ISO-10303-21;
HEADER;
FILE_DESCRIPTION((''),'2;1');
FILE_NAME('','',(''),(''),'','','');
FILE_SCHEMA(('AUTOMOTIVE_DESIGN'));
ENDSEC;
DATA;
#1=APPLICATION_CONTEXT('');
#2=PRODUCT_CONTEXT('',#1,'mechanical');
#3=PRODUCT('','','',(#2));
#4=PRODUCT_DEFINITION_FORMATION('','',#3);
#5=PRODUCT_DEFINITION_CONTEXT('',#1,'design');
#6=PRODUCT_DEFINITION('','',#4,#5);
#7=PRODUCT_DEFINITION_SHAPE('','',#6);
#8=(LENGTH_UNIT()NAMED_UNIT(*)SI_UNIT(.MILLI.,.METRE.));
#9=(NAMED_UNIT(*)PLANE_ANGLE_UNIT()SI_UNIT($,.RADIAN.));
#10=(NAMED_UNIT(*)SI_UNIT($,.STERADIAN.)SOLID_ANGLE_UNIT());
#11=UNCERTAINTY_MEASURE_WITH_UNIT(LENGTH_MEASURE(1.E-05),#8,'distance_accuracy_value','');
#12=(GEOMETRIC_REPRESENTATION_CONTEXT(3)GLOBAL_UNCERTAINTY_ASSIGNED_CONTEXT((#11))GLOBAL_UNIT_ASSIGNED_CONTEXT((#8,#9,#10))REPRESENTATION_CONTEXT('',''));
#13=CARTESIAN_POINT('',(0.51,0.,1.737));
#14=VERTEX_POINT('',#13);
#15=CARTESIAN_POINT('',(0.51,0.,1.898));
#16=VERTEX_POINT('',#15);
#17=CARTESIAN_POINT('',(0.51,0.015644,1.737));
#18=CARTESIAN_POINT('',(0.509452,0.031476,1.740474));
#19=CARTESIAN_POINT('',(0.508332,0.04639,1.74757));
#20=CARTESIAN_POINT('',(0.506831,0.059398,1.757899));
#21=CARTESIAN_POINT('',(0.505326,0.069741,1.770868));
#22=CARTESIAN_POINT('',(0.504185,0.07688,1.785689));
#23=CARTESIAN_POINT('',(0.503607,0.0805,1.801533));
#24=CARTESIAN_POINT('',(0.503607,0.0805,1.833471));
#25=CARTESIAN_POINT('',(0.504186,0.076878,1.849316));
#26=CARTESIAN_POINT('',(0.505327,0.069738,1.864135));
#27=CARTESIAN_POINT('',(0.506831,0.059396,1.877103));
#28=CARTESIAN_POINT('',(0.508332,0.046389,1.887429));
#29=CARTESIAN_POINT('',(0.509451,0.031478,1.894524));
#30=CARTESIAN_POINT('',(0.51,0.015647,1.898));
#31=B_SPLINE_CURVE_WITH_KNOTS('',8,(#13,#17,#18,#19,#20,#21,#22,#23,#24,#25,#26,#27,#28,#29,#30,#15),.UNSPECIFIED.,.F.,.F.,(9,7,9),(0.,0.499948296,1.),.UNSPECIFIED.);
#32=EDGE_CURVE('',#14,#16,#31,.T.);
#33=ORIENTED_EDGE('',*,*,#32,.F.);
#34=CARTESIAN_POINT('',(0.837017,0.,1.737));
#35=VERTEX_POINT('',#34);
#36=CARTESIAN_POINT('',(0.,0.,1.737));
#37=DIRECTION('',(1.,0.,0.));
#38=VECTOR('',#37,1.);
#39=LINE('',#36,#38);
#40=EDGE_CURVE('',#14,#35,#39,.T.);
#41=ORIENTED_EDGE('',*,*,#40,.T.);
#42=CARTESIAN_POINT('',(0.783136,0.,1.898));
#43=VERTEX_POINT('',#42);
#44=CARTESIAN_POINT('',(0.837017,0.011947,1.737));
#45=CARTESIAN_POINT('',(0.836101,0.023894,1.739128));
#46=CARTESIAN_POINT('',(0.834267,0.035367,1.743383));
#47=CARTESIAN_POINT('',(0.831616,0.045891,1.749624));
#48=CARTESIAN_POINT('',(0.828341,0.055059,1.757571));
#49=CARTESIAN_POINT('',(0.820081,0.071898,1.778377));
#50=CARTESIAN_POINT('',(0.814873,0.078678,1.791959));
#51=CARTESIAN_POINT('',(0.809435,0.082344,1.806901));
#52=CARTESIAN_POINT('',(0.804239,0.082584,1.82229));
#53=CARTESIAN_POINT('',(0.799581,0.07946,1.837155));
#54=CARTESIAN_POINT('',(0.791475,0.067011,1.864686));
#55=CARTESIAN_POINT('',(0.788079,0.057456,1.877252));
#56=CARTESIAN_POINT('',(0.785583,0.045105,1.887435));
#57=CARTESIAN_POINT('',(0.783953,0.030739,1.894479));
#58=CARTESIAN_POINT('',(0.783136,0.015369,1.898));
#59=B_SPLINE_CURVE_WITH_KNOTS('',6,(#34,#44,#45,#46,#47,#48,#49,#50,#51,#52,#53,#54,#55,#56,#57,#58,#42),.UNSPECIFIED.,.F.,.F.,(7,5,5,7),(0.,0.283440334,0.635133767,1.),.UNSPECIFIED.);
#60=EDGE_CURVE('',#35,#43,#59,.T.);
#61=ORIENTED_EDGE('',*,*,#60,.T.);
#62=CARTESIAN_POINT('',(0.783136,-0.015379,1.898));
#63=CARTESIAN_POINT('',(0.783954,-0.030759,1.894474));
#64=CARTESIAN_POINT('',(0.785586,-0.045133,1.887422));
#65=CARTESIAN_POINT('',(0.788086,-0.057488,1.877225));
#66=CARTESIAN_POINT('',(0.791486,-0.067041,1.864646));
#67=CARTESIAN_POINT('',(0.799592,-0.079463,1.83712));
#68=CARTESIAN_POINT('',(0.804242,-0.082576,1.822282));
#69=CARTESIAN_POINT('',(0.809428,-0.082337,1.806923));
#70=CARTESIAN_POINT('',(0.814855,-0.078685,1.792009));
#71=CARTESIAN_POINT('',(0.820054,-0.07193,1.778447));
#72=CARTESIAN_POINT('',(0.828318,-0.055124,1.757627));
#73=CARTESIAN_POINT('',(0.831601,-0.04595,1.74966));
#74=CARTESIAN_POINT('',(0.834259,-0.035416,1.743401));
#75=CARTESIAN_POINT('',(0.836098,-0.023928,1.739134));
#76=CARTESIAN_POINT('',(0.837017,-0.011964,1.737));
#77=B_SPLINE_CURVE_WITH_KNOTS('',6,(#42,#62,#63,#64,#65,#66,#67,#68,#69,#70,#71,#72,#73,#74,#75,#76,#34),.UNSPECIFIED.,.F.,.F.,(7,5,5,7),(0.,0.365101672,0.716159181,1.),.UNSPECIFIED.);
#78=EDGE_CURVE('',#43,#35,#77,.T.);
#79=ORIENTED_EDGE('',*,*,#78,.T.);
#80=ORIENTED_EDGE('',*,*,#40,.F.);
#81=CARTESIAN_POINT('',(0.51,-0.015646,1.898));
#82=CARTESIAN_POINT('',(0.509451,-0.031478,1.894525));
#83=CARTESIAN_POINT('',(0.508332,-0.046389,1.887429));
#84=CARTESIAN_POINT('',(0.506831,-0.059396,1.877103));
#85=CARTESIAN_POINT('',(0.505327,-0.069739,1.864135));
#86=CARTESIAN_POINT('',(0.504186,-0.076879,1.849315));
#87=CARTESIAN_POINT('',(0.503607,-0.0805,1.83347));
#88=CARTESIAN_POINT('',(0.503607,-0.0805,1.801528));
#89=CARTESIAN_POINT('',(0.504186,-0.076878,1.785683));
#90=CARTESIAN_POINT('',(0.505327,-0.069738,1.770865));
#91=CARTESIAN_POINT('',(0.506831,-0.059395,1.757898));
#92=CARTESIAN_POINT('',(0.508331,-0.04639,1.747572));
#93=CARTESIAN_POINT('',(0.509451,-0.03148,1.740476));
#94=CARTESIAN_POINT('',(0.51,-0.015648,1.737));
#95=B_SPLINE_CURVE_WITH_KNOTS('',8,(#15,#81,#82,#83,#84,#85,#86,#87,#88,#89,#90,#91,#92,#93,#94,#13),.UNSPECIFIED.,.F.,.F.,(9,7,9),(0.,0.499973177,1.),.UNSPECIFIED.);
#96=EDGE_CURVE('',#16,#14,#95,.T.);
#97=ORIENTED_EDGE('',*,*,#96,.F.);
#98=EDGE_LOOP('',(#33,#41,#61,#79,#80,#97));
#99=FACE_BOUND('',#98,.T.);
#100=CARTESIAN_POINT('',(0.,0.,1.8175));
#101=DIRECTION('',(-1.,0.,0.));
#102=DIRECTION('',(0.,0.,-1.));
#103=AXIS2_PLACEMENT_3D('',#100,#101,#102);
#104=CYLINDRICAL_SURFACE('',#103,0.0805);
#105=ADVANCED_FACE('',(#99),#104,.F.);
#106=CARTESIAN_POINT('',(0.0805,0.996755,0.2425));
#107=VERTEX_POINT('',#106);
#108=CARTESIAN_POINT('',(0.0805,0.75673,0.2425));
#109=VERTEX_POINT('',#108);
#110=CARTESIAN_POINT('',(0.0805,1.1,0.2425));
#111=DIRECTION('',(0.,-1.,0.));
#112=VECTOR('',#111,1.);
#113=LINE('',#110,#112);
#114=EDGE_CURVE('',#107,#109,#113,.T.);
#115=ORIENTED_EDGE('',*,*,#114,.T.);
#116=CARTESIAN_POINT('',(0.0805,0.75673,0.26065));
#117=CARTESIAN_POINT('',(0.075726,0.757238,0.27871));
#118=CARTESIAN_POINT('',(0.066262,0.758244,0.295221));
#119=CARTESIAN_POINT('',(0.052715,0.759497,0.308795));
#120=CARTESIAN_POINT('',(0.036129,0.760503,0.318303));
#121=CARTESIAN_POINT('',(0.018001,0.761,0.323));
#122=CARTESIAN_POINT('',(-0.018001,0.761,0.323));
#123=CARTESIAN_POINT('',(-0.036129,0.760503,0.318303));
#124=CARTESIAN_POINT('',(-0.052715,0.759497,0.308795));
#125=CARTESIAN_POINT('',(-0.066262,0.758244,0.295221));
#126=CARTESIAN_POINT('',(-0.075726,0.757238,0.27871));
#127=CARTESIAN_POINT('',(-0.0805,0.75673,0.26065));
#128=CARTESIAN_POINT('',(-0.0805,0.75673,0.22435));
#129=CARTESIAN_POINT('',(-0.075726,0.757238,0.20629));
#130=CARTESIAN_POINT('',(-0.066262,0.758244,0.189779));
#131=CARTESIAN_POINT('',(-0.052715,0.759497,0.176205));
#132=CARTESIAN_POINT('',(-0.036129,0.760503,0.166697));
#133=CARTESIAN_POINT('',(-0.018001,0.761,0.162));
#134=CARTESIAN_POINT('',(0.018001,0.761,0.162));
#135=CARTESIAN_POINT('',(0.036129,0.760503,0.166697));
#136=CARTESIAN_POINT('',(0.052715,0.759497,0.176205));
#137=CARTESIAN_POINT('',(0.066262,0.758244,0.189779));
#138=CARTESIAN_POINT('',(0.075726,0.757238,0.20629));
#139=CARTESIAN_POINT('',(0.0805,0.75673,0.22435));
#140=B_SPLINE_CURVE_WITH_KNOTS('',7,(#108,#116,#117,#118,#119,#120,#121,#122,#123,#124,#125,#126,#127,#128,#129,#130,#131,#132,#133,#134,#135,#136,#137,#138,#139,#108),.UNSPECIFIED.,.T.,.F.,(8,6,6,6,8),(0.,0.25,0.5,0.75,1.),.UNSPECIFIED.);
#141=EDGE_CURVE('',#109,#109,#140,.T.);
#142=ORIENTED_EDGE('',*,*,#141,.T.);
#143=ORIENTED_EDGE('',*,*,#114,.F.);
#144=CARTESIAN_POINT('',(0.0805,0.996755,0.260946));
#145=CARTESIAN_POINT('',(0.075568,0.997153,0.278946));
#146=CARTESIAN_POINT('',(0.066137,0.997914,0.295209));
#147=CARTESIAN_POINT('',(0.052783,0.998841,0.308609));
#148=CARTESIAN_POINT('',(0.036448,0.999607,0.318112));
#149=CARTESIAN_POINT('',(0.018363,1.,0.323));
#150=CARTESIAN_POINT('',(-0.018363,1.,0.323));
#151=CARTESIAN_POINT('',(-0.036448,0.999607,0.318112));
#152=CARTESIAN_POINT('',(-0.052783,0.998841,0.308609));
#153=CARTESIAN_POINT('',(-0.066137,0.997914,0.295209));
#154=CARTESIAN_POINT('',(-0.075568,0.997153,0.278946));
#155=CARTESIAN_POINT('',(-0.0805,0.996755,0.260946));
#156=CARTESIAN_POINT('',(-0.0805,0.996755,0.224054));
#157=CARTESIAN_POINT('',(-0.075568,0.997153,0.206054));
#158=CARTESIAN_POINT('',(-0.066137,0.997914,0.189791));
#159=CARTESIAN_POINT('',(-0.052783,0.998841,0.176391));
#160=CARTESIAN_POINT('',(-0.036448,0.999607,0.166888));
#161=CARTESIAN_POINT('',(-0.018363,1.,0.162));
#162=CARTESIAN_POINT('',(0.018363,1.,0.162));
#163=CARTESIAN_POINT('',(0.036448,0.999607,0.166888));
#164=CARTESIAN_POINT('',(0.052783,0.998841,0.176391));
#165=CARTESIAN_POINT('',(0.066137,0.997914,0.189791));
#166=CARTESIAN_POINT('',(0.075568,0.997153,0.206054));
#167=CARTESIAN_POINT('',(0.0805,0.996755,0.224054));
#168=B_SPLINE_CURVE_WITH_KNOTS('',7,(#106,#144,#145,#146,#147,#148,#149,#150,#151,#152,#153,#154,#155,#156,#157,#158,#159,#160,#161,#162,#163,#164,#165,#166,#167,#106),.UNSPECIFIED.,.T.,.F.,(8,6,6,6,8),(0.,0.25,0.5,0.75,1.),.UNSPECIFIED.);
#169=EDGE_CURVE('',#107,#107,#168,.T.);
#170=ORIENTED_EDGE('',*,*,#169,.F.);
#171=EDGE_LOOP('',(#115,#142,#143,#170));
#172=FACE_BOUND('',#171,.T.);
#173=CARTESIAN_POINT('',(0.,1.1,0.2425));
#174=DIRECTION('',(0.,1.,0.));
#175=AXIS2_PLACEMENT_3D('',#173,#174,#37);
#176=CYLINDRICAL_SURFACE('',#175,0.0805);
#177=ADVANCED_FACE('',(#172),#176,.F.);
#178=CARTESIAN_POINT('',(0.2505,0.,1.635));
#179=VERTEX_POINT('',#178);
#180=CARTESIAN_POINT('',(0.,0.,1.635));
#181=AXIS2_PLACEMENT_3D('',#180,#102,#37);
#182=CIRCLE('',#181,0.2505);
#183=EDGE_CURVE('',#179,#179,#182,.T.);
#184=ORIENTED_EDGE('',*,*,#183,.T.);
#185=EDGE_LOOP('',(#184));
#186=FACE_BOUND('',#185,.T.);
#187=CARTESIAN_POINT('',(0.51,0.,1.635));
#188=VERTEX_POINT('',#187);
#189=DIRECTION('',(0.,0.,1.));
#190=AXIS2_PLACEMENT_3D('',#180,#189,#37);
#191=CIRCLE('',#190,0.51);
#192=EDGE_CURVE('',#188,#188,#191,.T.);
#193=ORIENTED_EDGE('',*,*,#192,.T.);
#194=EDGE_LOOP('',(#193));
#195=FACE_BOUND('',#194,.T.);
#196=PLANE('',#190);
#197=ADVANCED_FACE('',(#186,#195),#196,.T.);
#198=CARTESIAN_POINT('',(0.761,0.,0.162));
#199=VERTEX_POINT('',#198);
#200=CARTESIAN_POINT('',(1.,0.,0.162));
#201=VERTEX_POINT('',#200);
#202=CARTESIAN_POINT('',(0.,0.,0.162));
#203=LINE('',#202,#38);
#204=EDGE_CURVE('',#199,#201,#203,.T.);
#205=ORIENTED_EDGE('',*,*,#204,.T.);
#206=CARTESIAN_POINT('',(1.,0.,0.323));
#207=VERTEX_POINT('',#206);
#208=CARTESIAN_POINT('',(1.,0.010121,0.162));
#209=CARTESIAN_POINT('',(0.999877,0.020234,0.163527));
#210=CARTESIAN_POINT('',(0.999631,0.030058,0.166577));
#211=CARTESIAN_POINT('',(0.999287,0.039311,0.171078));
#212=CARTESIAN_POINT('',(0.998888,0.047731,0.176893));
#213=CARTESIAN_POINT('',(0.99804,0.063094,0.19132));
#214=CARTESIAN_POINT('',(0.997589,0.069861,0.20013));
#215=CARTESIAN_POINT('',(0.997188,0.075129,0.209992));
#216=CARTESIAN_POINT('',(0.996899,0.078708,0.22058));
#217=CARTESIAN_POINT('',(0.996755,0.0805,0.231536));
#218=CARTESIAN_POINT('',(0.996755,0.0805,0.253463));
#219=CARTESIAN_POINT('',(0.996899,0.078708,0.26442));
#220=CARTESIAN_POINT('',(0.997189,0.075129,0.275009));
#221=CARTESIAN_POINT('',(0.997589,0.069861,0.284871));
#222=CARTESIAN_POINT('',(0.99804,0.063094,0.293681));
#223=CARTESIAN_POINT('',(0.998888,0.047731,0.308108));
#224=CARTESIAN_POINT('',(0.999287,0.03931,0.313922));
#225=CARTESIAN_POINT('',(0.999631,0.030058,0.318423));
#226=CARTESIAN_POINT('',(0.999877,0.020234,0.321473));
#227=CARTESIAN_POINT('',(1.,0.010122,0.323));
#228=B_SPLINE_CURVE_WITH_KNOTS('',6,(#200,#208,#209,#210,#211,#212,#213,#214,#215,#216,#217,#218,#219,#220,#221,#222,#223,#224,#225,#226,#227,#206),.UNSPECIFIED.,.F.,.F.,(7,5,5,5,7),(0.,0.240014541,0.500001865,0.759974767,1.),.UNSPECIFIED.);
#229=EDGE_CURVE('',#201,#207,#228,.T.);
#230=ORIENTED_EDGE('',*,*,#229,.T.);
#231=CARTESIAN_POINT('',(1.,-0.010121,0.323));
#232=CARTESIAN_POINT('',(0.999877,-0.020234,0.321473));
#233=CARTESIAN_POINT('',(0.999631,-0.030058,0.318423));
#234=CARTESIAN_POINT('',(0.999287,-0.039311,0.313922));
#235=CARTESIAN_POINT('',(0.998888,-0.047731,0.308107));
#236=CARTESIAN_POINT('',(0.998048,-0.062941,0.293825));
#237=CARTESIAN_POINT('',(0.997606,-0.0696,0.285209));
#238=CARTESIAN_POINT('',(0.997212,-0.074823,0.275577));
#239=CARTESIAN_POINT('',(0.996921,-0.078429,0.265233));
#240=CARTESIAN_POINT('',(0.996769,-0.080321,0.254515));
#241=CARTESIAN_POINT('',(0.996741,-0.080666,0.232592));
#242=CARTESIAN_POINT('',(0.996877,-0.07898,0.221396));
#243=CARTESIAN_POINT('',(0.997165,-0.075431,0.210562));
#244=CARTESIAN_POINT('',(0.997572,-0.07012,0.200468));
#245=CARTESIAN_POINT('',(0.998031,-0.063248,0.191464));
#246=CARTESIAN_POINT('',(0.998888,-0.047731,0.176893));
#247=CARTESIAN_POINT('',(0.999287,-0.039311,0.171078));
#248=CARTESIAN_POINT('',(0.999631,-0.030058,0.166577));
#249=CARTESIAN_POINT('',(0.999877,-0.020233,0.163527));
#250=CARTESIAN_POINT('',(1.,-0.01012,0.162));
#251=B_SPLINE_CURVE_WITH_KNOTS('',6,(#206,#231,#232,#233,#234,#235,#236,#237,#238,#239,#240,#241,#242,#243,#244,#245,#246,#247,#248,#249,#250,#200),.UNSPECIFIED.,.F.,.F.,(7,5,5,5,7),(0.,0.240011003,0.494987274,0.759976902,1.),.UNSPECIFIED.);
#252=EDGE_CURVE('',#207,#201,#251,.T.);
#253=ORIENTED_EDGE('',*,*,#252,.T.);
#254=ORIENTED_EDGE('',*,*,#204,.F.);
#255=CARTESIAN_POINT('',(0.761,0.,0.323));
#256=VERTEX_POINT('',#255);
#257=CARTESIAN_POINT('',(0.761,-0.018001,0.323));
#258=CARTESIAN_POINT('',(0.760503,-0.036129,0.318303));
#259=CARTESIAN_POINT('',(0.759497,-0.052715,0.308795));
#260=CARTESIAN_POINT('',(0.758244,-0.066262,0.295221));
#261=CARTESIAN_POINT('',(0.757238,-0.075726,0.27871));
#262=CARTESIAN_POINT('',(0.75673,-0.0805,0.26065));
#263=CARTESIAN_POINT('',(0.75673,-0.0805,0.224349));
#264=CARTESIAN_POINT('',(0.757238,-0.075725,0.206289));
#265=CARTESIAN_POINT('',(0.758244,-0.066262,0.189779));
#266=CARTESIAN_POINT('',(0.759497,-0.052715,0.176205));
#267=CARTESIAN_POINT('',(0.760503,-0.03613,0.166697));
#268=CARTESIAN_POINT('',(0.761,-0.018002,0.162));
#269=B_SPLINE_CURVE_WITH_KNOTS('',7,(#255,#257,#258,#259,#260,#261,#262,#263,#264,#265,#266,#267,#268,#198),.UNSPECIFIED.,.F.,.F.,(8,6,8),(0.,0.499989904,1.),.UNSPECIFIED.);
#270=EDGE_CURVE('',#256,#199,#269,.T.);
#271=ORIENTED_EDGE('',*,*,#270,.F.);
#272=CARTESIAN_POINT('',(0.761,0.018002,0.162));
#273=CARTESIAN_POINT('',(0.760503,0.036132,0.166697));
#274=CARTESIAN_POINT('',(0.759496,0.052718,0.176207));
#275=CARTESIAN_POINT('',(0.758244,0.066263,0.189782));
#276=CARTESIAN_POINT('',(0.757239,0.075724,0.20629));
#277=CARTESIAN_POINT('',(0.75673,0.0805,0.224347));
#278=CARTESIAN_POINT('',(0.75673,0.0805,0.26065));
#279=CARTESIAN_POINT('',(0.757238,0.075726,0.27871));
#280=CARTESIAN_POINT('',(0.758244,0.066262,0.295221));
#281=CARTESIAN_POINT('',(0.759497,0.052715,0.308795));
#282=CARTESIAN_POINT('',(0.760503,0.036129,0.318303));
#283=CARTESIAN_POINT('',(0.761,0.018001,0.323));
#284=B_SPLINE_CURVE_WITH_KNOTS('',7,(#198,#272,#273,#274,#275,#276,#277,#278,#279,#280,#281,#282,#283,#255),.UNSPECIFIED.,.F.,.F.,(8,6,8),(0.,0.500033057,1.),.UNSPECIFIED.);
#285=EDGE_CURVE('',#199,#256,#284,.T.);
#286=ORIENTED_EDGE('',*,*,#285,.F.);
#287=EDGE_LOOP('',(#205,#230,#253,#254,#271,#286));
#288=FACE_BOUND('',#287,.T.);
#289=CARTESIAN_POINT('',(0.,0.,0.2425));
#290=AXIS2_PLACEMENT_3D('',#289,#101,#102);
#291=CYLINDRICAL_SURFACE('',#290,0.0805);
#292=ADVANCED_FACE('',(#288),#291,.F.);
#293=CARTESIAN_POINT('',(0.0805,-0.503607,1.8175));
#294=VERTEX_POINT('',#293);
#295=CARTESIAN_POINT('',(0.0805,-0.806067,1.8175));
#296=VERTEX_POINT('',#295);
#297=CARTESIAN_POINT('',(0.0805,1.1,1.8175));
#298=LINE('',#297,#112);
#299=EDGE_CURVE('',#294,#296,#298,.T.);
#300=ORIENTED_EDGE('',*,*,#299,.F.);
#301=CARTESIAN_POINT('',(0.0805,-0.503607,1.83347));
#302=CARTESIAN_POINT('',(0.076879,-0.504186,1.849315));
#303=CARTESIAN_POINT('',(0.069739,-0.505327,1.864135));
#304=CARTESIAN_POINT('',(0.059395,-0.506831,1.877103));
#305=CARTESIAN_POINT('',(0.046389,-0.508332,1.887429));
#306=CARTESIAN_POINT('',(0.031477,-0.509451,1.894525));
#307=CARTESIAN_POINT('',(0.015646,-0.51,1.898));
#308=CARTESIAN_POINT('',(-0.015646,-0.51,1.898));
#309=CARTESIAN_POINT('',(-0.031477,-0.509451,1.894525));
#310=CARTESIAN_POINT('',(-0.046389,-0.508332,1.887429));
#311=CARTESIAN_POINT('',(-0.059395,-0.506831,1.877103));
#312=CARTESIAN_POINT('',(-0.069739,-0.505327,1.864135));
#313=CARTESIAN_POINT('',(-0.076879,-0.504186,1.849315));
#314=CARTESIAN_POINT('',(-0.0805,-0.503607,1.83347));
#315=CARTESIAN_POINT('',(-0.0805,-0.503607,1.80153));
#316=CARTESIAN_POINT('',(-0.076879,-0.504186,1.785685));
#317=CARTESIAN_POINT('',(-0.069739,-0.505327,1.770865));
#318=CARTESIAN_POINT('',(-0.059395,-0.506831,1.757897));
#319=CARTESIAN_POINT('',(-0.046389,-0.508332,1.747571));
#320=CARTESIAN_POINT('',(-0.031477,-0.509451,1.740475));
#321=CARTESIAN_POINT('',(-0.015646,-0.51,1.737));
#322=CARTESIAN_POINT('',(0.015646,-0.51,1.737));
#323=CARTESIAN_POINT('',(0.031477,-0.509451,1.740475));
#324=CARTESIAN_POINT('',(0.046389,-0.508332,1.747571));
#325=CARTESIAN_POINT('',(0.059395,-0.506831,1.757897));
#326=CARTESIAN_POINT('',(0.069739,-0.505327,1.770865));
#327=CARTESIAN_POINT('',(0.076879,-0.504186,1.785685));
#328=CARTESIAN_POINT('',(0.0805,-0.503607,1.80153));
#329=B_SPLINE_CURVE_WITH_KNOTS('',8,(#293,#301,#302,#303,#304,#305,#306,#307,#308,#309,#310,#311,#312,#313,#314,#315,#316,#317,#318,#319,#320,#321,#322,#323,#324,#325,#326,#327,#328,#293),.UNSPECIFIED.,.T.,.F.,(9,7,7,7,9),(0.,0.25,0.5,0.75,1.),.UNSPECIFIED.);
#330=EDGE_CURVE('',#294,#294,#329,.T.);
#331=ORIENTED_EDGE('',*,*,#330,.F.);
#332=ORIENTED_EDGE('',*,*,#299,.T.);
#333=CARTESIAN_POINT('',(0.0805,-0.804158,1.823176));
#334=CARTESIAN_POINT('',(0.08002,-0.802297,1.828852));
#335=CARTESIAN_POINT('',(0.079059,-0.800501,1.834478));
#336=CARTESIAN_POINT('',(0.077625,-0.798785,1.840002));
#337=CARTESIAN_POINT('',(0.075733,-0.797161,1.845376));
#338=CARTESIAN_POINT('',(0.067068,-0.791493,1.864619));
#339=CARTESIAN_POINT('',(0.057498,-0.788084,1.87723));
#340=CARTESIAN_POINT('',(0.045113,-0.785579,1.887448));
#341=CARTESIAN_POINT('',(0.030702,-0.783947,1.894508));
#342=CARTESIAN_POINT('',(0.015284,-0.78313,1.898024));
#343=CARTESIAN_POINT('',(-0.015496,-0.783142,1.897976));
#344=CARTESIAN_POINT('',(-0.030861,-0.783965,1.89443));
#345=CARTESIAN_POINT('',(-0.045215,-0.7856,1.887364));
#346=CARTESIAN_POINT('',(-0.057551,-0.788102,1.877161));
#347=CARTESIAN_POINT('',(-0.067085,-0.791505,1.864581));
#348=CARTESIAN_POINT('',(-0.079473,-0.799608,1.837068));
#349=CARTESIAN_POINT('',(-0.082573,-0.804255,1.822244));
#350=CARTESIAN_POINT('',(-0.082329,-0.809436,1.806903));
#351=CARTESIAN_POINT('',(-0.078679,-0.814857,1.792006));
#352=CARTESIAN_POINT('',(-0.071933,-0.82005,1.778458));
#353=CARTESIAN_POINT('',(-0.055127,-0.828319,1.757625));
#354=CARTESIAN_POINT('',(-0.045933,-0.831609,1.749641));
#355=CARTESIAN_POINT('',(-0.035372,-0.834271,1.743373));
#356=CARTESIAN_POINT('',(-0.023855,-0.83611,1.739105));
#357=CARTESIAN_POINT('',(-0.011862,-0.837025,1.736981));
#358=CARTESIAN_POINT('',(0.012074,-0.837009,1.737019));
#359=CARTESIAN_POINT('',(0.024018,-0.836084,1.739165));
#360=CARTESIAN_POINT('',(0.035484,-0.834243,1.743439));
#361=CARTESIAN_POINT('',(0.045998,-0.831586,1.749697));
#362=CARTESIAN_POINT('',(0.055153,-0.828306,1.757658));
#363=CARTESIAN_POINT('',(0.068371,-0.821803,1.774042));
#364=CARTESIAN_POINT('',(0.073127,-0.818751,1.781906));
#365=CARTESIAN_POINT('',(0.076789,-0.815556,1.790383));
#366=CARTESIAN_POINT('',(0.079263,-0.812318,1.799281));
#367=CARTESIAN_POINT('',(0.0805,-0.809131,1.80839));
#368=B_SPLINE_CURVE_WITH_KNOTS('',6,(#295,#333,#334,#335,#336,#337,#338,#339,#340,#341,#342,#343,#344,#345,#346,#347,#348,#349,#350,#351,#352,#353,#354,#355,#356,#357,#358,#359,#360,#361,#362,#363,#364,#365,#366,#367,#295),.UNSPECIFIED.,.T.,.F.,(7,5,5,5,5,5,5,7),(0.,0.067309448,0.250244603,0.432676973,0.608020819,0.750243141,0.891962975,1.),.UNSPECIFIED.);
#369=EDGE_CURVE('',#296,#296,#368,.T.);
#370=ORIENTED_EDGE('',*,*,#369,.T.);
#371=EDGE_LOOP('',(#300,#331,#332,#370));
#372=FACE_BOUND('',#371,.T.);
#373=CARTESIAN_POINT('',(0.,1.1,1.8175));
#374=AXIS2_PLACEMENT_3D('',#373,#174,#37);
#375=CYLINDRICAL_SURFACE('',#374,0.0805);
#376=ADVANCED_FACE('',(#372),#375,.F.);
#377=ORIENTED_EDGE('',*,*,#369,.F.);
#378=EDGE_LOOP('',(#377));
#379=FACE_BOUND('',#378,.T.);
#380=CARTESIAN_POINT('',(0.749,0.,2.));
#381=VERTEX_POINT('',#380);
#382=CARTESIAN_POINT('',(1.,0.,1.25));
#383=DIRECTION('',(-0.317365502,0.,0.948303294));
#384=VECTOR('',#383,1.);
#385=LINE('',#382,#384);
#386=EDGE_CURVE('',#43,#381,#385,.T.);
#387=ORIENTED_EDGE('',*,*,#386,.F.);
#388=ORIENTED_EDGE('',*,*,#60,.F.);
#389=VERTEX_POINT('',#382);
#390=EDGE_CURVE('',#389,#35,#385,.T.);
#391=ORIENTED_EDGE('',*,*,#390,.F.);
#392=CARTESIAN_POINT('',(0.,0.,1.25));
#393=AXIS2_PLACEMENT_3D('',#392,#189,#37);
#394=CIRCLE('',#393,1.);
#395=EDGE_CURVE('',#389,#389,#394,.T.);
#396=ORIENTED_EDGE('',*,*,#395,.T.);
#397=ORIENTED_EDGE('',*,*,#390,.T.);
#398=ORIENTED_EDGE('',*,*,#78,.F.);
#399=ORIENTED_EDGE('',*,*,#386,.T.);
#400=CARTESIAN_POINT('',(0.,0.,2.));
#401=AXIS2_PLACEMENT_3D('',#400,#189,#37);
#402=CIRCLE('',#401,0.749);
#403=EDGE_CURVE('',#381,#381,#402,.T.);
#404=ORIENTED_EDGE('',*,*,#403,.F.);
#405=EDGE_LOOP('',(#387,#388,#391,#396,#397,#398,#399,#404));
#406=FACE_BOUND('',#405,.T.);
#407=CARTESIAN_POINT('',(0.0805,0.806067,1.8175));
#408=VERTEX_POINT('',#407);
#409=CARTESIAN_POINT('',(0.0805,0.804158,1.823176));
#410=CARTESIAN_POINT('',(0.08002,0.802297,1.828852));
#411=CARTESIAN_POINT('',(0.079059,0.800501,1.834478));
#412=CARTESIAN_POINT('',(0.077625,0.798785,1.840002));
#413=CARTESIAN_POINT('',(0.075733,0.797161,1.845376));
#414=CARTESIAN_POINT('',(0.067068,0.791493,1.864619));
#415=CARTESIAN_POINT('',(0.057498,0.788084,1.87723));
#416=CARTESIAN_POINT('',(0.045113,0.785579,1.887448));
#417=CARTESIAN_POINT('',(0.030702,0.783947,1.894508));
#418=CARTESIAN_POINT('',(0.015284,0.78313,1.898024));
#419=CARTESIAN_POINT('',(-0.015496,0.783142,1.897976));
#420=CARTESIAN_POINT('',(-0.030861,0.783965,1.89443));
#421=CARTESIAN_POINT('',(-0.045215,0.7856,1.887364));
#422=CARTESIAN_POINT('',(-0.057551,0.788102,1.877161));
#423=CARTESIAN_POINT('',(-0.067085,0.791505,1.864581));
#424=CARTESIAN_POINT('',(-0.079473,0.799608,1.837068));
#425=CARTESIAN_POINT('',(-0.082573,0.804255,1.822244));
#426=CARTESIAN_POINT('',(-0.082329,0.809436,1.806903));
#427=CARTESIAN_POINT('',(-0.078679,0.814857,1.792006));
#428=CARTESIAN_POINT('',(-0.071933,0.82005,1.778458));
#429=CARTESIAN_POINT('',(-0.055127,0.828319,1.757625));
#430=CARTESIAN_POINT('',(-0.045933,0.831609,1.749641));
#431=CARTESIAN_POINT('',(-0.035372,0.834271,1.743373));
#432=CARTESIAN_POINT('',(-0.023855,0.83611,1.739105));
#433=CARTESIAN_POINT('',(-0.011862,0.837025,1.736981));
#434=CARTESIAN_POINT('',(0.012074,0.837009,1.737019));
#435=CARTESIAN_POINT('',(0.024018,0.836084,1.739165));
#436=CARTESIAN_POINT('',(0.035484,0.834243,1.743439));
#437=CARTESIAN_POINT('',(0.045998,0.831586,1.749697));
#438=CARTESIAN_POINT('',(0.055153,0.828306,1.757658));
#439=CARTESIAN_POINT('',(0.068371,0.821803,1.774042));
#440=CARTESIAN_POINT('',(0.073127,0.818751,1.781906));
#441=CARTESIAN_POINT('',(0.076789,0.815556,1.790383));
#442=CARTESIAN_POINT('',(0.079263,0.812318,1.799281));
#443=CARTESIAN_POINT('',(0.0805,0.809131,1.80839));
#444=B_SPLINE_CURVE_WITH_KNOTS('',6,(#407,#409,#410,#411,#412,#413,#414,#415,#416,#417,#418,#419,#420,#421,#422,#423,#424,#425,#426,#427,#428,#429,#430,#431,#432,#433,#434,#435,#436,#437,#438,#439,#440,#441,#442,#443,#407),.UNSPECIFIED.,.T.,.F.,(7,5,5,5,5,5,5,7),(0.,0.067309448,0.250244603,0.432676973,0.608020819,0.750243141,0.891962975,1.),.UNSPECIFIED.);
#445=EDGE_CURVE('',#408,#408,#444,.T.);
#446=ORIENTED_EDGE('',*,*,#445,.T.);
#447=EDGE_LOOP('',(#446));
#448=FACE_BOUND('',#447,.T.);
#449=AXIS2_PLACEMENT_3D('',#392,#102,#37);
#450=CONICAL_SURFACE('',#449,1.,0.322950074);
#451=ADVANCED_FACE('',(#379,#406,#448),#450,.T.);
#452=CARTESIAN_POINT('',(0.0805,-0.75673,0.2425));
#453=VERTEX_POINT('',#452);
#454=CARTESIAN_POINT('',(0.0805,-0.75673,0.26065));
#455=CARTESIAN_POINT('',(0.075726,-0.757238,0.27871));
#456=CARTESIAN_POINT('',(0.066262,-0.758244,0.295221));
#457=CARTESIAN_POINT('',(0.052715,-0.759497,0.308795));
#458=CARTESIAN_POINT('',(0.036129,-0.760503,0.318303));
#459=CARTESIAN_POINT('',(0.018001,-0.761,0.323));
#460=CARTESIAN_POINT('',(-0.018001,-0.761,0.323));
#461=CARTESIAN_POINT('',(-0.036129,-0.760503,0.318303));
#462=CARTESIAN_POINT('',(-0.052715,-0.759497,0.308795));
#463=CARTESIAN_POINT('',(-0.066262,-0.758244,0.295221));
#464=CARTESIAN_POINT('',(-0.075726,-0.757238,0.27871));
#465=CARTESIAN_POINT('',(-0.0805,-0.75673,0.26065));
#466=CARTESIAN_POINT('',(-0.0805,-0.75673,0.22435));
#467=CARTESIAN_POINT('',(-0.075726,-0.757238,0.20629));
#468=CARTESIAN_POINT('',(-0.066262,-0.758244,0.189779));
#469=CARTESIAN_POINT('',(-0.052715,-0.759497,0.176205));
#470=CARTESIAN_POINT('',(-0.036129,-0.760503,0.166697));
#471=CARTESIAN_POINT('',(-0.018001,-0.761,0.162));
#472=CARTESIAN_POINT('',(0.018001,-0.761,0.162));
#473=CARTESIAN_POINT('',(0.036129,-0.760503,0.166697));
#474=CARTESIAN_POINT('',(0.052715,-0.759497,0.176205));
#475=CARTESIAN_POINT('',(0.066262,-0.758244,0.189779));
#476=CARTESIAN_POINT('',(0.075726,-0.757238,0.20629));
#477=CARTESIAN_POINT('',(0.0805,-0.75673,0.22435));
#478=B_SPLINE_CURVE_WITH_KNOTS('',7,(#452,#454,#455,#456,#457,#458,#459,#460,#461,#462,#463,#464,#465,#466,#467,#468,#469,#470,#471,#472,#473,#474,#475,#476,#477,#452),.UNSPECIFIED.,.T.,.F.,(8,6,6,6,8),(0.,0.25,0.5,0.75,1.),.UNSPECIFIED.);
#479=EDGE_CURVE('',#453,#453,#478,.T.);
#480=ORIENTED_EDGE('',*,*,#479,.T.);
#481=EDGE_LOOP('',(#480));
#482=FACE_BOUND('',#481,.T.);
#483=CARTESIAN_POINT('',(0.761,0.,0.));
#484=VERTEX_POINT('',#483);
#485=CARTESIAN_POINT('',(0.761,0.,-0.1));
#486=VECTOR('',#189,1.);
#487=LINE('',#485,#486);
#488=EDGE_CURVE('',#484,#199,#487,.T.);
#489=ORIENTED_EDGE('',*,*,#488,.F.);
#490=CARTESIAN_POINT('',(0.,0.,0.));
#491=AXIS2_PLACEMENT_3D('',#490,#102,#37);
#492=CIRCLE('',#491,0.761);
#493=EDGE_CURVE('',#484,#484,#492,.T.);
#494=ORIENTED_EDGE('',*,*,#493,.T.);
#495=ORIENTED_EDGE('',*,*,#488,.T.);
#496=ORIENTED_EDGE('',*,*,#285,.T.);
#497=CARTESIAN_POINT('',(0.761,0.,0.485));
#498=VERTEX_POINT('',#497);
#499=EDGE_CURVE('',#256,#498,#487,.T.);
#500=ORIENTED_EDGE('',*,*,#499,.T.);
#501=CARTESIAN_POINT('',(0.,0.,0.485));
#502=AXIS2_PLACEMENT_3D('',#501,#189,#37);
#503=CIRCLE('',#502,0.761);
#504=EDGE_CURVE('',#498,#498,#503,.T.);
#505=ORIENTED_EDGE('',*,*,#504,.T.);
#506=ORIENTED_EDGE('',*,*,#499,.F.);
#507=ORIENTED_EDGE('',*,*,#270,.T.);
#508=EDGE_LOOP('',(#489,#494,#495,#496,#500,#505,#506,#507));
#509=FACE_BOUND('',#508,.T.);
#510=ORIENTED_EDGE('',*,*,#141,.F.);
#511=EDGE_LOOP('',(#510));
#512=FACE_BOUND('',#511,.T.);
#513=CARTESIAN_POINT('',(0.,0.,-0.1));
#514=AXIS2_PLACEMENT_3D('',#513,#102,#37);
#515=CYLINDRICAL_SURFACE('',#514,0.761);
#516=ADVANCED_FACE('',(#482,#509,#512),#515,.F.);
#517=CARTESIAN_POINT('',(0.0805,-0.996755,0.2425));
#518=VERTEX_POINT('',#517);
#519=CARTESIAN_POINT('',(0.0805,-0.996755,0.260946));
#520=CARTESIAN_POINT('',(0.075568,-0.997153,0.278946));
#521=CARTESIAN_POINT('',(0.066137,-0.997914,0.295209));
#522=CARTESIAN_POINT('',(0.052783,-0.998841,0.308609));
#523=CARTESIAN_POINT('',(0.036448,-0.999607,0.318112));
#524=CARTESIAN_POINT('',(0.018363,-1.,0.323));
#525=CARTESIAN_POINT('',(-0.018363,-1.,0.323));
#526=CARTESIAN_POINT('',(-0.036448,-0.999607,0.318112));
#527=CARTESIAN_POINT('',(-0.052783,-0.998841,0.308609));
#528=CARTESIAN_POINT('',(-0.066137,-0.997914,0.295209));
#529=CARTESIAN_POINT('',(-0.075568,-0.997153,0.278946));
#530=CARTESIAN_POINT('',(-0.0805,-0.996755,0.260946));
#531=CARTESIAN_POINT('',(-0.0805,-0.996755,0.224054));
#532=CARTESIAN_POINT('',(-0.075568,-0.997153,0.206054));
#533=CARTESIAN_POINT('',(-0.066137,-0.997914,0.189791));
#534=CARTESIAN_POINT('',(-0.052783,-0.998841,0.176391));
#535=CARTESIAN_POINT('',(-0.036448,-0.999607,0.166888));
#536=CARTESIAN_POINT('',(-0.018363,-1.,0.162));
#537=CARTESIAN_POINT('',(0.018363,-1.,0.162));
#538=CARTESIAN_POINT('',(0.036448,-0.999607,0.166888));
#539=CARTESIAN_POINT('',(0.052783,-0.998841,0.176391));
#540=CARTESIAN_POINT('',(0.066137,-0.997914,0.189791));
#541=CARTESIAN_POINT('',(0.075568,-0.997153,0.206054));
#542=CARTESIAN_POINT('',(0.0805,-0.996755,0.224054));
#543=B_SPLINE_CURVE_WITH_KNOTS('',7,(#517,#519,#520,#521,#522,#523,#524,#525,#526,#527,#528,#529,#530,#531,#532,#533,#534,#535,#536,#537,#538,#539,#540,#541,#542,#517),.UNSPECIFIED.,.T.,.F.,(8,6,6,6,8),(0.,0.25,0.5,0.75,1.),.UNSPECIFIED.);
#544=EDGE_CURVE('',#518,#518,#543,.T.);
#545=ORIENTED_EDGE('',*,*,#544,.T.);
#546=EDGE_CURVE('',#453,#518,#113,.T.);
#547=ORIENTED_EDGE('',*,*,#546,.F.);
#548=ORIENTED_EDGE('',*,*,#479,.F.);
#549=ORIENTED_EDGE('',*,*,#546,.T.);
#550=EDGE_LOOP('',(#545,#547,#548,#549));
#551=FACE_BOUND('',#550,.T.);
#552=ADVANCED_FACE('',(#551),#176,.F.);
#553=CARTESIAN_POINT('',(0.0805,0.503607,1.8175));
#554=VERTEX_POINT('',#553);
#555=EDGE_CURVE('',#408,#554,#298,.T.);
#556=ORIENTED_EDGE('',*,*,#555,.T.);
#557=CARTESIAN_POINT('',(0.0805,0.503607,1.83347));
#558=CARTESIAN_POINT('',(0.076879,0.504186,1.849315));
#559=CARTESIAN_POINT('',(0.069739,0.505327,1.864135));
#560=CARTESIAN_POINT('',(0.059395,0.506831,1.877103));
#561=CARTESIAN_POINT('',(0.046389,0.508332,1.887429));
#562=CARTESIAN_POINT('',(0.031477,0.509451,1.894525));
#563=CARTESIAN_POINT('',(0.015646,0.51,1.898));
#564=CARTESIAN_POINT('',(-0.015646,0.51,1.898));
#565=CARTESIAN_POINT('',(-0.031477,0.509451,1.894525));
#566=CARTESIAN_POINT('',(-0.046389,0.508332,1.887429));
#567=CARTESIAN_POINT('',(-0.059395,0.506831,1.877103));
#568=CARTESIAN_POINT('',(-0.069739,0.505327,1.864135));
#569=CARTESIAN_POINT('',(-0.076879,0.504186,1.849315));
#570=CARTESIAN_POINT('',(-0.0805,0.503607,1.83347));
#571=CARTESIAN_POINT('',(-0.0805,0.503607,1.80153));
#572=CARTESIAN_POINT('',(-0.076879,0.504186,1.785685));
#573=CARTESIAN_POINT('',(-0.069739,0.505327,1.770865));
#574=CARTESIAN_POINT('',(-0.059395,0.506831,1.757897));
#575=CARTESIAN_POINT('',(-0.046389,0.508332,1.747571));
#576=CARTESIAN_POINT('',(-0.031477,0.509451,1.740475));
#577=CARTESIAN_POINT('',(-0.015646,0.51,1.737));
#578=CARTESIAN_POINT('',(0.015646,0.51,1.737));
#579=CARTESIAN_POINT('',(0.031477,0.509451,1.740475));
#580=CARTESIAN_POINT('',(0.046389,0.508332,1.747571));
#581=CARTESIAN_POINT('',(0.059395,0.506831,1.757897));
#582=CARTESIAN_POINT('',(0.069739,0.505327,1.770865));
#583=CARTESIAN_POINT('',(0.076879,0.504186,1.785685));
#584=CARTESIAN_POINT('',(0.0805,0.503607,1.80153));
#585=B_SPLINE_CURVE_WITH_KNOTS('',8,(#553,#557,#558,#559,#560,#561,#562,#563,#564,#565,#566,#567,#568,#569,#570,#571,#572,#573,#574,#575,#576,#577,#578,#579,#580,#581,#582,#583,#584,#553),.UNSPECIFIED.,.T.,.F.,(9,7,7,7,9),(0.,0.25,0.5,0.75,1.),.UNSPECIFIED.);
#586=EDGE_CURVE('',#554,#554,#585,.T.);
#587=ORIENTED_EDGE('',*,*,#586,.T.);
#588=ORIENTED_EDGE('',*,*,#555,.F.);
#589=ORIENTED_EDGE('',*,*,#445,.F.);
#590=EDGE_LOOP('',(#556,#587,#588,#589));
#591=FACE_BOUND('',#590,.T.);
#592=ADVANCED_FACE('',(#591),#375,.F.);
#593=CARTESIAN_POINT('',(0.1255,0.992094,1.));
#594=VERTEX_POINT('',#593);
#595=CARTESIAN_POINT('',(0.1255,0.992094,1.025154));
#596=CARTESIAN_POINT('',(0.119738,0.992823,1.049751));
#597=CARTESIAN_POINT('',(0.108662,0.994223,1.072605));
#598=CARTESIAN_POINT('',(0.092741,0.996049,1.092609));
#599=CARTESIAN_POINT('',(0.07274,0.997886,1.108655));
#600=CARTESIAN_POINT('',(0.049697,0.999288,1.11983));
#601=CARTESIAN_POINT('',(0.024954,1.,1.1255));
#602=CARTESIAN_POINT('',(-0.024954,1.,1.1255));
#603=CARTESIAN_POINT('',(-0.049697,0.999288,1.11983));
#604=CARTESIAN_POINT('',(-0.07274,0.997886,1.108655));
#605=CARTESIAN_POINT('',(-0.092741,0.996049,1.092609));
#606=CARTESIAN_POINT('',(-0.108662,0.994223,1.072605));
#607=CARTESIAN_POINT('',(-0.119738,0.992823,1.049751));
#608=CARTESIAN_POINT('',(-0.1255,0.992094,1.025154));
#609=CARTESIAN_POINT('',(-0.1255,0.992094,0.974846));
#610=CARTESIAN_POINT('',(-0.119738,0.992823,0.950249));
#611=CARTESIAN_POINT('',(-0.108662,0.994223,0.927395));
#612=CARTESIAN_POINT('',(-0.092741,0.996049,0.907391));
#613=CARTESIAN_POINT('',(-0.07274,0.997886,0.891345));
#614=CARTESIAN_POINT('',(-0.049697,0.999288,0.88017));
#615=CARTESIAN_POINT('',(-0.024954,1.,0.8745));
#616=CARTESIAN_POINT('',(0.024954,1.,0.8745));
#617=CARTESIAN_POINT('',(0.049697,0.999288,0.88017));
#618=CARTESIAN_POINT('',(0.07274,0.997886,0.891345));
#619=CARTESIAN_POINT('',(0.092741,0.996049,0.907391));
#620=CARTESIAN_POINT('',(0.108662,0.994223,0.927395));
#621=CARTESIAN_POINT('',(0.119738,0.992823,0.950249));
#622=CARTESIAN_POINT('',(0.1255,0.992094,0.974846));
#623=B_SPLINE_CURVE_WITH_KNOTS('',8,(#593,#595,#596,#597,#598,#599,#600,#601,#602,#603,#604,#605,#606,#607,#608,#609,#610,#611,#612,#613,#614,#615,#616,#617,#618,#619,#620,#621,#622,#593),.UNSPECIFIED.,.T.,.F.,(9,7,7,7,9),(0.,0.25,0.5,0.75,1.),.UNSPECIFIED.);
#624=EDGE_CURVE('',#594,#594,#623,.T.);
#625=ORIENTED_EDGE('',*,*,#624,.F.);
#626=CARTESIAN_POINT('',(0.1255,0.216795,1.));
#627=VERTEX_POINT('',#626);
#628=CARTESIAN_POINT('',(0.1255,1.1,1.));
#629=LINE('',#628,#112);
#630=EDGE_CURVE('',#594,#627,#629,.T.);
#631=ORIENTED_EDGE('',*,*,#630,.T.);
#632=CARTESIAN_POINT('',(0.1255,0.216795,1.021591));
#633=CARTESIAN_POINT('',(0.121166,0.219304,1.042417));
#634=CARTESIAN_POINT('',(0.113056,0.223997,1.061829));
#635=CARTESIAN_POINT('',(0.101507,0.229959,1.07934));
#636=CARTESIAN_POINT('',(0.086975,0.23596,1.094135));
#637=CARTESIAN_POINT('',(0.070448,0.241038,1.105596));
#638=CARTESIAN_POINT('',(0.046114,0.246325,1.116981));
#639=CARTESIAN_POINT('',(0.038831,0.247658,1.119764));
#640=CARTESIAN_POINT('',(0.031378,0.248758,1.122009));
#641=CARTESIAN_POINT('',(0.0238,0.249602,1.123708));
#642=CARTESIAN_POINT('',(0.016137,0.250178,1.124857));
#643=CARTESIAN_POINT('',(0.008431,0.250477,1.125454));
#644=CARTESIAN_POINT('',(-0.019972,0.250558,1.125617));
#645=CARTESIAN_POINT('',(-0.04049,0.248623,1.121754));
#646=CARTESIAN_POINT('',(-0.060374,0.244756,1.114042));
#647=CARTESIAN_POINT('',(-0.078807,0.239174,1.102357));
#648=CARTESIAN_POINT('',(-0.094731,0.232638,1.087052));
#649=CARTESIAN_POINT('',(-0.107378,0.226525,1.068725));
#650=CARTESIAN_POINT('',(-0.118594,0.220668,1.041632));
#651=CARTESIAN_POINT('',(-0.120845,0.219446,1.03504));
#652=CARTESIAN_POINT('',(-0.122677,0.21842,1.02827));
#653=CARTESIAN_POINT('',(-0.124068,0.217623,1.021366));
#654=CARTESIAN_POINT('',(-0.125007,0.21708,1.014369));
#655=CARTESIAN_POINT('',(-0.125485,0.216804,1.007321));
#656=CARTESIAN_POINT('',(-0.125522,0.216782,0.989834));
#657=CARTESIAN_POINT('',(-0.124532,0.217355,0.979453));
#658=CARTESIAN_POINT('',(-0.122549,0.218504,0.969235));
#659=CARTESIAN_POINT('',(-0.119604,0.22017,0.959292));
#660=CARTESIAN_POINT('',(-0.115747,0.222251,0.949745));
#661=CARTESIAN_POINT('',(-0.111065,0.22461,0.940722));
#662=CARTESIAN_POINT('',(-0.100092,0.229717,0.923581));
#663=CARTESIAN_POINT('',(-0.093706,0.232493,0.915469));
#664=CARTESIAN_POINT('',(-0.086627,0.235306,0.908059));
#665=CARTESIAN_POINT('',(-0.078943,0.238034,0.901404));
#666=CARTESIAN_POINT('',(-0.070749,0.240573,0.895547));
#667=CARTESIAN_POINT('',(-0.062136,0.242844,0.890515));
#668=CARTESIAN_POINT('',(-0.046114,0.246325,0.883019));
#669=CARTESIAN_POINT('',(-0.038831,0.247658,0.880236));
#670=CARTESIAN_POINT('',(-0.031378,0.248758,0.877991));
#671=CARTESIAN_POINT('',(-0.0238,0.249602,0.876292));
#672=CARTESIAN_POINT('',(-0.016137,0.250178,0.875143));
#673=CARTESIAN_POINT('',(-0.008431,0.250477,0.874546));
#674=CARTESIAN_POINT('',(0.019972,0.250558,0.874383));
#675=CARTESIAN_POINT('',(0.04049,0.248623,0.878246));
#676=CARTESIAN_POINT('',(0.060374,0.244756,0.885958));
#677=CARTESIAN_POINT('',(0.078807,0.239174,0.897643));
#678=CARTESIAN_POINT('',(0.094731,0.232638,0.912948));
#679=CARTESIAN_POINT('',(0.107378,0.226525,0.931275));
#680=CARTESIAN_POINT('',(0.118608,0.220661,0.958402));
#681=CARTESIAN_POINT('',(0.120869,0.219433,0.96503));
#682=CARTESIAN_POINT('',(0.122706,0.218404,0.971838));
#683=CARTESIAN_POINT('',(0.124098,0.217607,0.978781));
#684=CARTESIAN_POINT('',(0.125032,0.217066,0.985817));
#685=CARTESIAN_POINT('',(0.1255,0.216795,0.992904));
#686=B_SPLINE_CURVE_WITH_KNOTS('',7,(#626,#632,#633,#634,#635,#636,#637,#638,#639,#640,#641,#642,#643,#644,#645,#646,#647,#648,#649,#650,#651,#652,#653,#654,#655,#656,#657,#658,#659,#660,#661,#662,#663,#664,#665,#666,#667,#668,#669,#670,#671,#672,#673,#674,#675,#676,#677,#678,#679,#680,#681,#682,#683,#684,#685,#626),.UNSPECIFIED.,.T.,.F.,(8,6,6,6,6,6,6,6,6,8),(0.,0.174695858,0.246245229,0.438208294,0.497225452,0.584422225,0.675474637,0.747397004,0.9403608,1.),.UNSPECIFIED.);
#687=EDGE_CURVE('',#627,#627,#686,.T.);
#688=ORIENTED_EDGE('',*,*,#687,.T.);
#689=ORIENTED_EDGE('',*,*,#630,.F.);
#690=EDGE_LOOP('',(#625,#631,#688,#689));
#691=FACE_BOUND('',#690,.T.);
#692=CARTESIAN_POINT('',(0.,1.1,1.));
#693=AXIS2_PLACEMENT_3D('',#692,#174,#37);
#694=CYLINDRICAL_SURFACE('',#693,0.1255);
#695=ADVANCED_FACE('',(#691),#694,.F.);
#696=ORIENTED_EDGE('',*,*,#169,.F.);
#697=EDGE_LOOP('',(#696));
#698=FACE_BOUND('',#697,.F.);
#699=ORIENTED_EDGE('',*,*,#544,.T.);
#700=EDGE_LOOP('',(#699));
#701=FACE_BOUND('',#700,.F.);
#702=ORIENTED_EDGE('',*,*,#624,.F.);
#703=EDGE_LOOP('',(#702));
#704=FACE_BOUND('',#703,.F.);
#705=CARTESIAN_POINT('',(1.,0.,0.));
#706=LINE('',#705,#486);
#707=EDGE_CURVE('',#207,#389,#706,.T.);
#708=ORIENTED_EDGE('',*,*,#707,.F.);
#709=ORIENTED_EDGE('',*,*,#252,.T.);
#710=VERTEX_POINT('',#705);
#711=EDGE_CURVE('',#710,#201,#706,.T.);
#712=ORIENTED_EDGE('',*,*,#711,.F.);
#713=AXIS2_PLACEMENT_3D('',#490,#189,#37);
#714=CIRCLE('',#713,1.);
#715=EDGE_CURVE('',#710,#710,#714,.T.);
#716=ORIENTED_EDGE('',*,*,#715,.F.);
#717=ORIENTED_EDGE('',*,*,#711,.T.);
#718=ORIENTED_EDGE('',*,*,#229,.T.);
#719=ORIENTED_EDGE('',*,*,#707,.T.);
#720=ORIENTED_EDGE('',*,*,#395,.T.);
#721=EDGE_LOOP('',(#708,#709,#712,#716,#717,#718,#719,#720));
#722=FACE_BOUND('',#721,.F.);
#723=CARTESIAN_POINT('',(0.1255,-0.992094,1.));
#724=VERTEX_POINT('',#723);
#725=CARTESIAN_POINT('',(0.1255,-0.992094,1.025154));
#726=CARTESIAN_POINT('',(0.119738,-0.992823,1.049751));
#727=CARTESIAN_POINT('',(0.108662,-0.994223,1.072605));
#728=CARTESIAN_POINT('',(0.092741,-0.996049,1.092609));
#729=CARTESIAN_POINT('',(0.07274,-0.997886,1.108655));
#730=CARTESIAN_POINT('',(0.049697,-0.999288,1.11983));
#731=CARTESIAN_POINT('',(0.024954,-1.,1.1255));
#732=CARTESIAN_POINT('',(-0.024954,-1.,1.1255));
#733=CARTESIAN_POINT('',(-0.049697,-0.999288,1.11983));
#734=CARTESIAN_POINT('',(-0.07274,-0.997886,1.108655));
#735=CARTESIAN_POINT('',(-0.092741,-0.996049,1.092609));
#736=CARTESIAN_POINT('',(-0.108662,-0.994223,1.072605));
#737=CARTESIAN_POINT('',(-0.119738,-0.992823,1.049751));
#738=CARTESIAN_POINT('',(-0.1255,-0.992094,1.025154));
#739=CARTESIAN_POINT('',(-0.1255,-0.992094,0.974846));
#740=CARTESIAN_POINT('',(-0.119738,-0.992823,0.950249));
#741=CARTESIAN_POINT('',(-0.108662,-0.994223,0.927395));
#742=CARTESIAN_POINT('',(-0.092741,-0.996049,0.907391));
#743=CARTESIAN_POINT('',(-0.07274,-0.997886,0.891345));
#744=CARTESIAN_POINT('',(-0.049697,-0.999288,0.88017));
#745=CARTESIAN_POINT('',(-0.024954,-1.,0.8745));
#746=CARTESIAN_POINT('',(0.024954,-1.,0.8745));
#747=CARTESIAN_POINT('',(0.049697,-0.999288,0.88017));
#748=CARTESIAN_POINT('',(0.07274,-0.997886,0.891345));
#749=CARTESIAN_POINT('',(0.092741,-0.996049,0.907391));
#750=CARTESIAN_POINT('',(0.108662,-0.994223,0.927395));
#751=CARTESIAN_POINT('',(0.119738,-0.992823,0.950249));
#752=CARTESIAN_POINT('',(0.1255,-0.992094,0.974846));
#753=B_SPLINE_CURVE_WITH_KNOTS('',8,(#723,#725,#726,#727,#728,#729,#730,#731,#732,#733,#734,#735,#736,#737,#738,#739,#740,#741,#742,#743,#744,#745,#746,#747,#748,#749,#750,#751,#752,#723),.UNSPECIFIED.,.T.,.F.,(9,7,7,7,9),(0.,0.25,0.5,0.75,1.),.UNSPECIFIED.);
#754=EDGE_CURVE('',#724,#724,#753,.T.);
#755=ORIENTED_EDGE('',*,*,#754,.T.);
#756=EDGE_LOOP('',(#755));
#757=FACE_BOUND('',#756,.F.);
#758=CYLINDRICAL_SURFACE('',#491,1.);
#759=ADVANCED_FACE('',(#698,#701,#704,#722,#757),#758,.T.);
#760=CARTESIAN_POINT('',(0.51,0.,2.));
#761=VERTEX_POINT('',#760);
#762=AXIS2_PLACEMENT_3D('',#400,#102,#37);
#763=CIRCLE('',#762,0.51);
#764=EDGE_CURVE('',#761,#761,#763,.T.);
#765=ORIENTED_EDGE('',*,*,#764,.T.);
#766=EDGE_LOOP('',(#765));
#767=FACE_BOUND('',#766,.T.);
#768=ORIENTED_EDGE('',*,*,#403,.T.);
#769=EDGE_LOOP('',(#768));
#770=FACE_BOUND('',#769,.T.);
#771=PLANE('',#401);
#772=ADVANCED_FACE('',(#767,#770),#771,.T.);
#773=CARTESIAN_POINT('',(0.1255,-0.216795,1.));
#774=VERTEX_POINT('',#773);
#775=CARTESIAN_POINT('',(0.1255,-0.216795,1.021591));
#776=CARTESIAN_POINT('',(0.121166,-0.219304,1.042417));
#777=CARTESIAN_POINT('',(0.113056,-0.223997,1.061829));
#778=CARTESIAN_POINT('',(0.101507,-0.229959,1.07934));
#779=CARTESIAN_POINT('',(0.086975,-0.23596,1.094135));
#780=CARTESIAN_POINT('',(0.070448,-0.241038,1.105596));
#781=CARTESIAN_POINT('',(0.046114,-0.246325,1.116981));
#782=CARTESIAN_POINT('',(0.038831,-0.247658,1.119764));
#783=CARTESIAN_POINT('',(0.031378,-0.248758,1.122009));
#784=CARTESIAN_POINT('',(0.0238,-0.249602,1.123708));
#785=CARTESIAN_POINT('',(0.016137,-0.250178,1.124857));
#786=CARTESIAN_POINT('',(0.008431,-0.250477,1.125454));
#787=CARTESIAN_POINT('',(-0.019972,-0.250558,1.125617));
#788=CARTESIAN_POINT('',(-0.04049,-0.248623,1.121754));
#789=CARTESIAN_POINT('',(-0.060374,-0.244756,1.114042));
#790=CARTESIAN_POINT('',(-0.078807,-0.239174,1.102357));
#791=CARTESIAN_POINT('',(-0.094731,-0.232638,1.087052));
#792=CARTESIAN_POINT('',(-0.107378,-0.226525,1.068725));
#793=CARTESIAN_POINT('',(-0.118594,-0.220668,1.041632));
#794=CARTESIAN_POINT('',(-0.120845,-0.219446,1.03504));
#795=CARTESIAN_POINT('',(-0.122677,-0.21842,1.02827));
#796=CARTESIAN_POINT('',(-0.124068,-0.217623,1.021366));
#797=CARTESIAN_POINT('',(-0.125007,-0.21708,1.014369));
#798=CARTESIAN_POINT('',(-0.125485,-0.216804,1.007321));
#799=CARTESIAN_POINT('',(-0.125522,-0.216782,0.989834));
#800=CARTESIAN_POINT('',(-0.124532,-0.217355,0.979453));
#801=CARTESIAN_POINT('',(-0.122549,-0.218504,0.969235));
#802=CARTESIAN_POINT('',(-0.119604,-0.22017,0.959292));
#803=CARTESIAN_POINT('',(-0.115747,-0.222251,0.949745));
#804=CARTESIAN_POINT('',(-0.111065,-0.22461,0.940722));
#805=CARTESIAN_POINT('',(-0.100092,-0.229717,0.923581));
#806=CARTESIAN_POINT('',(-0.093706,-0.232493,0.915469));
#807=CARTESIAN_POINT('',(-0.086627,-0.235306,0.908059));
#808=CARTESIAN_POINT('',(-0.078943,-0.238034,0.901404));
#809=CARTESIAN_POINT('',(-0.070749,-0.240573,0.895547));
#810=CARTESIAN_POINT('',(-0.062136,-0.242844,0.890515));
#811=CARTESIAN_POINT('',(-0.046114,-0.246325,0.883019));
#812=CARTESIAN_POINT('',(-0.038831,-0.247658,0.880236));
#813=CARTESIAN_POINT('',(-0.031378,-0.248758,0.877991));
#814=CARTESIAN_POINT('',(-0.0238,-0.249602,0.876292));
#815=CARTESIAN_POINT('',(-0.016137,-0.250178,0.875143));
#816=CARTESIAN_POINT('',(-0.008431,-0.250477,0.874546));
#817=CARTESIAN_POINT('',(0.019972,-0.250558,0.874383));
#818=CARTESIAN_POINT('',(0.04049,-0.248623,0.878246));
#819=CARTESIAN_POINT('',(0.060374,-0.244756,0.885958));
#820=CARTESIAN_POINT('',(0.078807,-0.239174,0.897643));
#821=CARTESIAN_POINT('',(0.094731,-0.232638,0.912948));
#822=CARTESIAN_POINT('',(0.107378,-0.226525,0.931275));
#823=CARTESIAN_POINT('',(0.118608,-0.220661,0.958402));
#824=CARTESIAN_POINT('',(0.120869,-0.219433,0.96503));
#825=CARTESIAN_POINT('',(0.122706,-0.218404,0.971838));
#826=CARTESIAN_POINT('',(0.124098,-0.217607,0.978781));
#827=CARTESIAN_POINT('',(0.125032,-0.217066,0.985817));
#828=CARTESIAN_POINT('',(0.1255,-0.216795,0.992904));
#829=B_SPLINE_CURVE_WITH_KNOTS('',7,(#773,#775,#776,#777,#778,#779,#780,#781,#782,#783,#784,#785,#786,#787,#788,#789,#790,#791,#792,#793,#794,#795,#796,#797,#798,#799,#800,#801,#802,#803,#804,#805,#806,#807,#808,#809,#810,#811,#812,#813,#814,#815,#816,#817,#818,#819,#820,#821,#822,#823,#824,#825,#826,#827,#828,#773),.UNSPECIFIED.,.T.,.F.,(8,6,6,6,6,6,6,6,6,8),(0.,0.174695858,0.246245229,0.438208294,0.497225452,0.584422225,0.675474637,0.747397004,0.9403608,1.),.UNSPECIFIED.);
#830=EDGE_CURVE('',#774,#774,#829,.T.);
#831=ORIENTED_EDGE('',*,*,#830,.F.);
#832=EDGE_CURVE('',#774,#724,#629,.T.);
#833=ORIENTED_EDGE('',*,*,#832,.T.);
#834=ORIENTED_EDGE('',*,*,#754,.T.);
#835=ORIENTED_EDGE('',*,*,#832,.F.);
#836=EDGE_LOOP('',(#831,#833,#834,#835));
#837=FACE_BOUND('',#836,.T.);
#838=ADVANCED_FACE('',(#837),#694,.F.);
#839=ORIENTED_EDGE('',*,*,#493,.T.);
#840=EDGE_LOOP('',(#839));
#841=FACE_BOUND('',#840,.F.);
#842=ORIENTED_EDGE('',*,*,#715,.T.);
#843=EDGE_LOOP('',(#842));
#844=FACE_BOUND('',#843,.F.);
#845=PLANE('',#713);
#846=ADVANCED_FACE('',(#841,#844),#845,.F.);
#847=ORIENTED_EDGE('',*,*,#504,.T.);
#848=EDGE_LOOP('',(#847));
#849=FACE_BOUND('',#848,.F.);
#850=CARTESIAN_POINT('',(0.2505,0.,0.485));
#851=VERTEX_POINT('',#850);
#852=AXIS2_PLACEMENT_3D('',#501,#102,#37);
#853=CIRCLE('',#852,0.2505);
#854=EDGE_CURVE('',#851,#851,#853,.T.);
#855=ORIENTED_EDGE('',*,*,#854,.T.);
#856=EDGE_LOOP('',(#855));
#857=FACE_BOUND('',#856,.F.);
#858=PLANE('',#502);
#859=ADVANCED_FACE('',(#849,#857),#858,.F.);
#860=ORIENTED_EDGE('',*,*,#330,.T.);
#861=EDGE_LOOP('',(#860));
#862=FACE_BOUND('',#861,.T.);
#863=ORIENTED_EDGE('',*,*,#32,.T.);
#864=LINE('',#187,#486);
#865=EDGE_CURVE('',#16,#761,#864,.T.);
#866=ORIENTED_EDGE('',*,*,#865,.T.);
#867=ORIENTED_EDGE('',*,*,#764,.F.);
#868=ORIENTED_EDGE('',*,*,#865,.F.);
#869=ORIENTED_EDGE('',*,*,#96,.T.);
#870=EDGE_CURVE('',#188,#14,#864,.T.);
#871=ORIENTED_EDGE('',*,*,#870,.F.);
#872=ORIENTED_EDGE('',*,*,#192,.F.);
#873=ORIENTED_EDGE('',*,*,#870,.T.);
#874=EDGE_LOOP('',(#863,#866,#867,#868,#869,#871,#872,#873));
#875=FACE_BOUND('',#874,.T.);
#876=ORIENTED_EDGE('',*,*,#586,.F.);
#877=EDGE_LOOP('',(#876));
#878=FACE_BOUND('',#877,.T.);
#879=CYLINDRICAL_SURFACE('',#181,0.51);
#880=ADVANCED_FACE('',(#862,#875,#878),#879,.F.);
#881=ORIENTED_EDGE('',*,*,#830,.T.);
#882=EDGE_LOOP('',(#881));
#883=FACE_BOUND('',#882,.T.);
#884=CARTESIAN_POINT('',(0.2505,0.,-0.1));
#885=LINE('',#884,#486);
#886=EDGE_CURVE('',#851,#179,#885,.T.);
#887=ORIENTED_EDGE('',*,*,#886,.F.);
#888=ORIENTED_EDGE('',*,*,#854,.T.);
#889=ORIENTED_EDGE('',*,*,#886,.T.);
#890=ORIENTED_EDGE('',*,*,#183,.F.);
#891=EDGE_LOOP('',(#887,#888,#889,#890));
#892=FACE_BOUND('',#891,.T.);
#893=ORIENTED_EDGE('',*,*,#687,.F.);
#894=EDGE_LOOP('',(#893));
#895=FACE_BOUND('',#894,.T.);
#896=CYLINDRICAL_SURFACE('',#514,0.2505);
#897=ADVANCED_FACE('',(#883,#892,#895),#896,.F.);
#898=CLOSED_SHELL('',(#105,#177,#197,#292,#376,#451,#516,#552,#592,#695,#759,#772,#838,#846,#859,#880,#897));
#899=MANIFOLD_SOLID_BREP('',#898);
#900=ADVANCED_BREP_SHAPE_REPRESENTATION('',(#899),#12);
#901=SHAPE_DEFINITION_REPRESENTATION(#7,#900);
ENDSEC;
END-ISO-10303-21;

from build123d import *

# Parameters (mm, degrees)
CYLINDER003_R     = 0.761
CYLINDER003_DEPTH = 0.585
CYLINDER004_R     = 0.51
CYLINDER004_DEPTH = 0.465
CYLINDER005_R     = 0.1255
CYLINDER005_DEPTH = 2.2
CYLINDER006_R     = 0.0805
CYLINDER006_DEPTH = 2.2
CYLINDER007_R     = 0.0805
CYLINDER007_DEPTH = 2.2
CYLINDER008_R     = 0.0805
CYLINDER008_DEPTH = 2.2
CYLINDER009_R     = 0.0805
CYLINDER009_DEPTH = 2.2
CYLINDER002_R     = 0.2505
CYLINDER002_DEPTH = 2.2
CYLINDER_R        = 1
CYLINDER_DEPTH    = 1.25


with BuildPart() as cylinder003:
    # cylinder003 → cylinder003 (new body)
    with BuildSketch(Plane.XY.offset(-0.1)):
        Circle(CYLINDER003_R)
    extrude(amount=CYLINDER003_DEPTH)


with BuildPart() as cylinder004:
    # cylinder004 → cylinder004 (new body)
    with BuildSketch(Plane.XY.offset(1.635)):
        Circle(CYLINDER004_R)
    extrude(amount=CYLINDER004_DEPTH)


with BuildPart() as cylinder005:
    # cylinder005 → cylinder005 (new body)
    with BuildSketch(Plane(origin=(0, 1.1, 1), x_dir=(1, 0, 0), z_dir=(0, -1, 0))):
        Circle(CYLINDER005_R)
    extrude(amount=CYLINDER005_DEPTH)


with BuildPart() as cylinder006:
    # cylinder006 → cylinder006 (new body)
    with BuildSketch(Plane(origin=(0, 1.1, 0.2425), x_dir=(1, 0, 0), z_dir=(0, -1, 0))):
        Circle(CYLINDER006_R)
    extrude(amount=CYLINDER006_DEPTH)


with BuildPart() as cylinder007:
    # cylinder007 → cylinder007 (new body)
    with BuildSketch(Plane(origin=(0, 0, 0.2425), x_dir=(0, 0, -1), z_dir=(1, 0, 0))):
        Circle(CYLINDER007_R)
    extrude(amount=CYLINDER007_DEPTH)


with BuildPart() as cylinder008:
    # cylinder008 → cylinder008 (new body)
    with BuildSketch(Plane(origin=(0, 1.1, 1.8175), x_dir=(1, 0, 0), z_dir=(0, -1, 0))):
        Circle(CYLINDER008_R)
    extrude(amount=CYLINDER008_DEPTH)


with BuildPart() as cylinder009:
    # cylinder009 → cylinder009 (new body)
    with BuildSketch(Plane(origin=(0, 0, 1.8175), x_dir=(0, 0, -1), z_dir=(1, 0, 0))):
        Circle(CYLINDER009_R)
    extrude(amount=CYLINDER009_DEPTH)


with BuildPart() as union001:
    # cylinder002 → cylinder002 (new body)
    with BuildSketch(Plane.XY.offset(-0.1)):
        Circle(CYLINDER002_R)
    extrude(amount=CYLINDER002_DEPTH)

    # union001: union cylinder003, cylinder004, cylinder005, cylinder006, cylinder007, cylinder008, cylinder009
    add(cylinder003.part)
    add(cylinder004.part)
    add(cylinder005.part)
    add(cylinder006.part)
    add(cylinder007.part)
    add(cylinder008.part)
    add(cylinder009.part)


with BuildPart() as cylinder001:
    # cylinder001 → cylinder001 (revolve)
    with BuildSketch(Plane(origin=(0, 0, 1.25), x_dir=(1, 0, 0), z_dir=(0, -1, 0))):
        Polygon((0, 0), (1, 0), (0.749, 0.75), (0, 0.75), align=None)
    revolve(axis=Axis((0, 0, 1.25), (0, 0, 1)))


with BuildPart() as difference:
    # cylinder → cylinder (new body)
    with BuildSketch(Plane.XY):
        Circle(CYLINDER_R)
    extrude(amount=CYLINDER_DEPTH)

    # union: union cylinder001
    add(cylinder001.part)

    # difference: cut union001
    add(union001.part, mode=Mode.SUBTRACT)


solid = difference.part
